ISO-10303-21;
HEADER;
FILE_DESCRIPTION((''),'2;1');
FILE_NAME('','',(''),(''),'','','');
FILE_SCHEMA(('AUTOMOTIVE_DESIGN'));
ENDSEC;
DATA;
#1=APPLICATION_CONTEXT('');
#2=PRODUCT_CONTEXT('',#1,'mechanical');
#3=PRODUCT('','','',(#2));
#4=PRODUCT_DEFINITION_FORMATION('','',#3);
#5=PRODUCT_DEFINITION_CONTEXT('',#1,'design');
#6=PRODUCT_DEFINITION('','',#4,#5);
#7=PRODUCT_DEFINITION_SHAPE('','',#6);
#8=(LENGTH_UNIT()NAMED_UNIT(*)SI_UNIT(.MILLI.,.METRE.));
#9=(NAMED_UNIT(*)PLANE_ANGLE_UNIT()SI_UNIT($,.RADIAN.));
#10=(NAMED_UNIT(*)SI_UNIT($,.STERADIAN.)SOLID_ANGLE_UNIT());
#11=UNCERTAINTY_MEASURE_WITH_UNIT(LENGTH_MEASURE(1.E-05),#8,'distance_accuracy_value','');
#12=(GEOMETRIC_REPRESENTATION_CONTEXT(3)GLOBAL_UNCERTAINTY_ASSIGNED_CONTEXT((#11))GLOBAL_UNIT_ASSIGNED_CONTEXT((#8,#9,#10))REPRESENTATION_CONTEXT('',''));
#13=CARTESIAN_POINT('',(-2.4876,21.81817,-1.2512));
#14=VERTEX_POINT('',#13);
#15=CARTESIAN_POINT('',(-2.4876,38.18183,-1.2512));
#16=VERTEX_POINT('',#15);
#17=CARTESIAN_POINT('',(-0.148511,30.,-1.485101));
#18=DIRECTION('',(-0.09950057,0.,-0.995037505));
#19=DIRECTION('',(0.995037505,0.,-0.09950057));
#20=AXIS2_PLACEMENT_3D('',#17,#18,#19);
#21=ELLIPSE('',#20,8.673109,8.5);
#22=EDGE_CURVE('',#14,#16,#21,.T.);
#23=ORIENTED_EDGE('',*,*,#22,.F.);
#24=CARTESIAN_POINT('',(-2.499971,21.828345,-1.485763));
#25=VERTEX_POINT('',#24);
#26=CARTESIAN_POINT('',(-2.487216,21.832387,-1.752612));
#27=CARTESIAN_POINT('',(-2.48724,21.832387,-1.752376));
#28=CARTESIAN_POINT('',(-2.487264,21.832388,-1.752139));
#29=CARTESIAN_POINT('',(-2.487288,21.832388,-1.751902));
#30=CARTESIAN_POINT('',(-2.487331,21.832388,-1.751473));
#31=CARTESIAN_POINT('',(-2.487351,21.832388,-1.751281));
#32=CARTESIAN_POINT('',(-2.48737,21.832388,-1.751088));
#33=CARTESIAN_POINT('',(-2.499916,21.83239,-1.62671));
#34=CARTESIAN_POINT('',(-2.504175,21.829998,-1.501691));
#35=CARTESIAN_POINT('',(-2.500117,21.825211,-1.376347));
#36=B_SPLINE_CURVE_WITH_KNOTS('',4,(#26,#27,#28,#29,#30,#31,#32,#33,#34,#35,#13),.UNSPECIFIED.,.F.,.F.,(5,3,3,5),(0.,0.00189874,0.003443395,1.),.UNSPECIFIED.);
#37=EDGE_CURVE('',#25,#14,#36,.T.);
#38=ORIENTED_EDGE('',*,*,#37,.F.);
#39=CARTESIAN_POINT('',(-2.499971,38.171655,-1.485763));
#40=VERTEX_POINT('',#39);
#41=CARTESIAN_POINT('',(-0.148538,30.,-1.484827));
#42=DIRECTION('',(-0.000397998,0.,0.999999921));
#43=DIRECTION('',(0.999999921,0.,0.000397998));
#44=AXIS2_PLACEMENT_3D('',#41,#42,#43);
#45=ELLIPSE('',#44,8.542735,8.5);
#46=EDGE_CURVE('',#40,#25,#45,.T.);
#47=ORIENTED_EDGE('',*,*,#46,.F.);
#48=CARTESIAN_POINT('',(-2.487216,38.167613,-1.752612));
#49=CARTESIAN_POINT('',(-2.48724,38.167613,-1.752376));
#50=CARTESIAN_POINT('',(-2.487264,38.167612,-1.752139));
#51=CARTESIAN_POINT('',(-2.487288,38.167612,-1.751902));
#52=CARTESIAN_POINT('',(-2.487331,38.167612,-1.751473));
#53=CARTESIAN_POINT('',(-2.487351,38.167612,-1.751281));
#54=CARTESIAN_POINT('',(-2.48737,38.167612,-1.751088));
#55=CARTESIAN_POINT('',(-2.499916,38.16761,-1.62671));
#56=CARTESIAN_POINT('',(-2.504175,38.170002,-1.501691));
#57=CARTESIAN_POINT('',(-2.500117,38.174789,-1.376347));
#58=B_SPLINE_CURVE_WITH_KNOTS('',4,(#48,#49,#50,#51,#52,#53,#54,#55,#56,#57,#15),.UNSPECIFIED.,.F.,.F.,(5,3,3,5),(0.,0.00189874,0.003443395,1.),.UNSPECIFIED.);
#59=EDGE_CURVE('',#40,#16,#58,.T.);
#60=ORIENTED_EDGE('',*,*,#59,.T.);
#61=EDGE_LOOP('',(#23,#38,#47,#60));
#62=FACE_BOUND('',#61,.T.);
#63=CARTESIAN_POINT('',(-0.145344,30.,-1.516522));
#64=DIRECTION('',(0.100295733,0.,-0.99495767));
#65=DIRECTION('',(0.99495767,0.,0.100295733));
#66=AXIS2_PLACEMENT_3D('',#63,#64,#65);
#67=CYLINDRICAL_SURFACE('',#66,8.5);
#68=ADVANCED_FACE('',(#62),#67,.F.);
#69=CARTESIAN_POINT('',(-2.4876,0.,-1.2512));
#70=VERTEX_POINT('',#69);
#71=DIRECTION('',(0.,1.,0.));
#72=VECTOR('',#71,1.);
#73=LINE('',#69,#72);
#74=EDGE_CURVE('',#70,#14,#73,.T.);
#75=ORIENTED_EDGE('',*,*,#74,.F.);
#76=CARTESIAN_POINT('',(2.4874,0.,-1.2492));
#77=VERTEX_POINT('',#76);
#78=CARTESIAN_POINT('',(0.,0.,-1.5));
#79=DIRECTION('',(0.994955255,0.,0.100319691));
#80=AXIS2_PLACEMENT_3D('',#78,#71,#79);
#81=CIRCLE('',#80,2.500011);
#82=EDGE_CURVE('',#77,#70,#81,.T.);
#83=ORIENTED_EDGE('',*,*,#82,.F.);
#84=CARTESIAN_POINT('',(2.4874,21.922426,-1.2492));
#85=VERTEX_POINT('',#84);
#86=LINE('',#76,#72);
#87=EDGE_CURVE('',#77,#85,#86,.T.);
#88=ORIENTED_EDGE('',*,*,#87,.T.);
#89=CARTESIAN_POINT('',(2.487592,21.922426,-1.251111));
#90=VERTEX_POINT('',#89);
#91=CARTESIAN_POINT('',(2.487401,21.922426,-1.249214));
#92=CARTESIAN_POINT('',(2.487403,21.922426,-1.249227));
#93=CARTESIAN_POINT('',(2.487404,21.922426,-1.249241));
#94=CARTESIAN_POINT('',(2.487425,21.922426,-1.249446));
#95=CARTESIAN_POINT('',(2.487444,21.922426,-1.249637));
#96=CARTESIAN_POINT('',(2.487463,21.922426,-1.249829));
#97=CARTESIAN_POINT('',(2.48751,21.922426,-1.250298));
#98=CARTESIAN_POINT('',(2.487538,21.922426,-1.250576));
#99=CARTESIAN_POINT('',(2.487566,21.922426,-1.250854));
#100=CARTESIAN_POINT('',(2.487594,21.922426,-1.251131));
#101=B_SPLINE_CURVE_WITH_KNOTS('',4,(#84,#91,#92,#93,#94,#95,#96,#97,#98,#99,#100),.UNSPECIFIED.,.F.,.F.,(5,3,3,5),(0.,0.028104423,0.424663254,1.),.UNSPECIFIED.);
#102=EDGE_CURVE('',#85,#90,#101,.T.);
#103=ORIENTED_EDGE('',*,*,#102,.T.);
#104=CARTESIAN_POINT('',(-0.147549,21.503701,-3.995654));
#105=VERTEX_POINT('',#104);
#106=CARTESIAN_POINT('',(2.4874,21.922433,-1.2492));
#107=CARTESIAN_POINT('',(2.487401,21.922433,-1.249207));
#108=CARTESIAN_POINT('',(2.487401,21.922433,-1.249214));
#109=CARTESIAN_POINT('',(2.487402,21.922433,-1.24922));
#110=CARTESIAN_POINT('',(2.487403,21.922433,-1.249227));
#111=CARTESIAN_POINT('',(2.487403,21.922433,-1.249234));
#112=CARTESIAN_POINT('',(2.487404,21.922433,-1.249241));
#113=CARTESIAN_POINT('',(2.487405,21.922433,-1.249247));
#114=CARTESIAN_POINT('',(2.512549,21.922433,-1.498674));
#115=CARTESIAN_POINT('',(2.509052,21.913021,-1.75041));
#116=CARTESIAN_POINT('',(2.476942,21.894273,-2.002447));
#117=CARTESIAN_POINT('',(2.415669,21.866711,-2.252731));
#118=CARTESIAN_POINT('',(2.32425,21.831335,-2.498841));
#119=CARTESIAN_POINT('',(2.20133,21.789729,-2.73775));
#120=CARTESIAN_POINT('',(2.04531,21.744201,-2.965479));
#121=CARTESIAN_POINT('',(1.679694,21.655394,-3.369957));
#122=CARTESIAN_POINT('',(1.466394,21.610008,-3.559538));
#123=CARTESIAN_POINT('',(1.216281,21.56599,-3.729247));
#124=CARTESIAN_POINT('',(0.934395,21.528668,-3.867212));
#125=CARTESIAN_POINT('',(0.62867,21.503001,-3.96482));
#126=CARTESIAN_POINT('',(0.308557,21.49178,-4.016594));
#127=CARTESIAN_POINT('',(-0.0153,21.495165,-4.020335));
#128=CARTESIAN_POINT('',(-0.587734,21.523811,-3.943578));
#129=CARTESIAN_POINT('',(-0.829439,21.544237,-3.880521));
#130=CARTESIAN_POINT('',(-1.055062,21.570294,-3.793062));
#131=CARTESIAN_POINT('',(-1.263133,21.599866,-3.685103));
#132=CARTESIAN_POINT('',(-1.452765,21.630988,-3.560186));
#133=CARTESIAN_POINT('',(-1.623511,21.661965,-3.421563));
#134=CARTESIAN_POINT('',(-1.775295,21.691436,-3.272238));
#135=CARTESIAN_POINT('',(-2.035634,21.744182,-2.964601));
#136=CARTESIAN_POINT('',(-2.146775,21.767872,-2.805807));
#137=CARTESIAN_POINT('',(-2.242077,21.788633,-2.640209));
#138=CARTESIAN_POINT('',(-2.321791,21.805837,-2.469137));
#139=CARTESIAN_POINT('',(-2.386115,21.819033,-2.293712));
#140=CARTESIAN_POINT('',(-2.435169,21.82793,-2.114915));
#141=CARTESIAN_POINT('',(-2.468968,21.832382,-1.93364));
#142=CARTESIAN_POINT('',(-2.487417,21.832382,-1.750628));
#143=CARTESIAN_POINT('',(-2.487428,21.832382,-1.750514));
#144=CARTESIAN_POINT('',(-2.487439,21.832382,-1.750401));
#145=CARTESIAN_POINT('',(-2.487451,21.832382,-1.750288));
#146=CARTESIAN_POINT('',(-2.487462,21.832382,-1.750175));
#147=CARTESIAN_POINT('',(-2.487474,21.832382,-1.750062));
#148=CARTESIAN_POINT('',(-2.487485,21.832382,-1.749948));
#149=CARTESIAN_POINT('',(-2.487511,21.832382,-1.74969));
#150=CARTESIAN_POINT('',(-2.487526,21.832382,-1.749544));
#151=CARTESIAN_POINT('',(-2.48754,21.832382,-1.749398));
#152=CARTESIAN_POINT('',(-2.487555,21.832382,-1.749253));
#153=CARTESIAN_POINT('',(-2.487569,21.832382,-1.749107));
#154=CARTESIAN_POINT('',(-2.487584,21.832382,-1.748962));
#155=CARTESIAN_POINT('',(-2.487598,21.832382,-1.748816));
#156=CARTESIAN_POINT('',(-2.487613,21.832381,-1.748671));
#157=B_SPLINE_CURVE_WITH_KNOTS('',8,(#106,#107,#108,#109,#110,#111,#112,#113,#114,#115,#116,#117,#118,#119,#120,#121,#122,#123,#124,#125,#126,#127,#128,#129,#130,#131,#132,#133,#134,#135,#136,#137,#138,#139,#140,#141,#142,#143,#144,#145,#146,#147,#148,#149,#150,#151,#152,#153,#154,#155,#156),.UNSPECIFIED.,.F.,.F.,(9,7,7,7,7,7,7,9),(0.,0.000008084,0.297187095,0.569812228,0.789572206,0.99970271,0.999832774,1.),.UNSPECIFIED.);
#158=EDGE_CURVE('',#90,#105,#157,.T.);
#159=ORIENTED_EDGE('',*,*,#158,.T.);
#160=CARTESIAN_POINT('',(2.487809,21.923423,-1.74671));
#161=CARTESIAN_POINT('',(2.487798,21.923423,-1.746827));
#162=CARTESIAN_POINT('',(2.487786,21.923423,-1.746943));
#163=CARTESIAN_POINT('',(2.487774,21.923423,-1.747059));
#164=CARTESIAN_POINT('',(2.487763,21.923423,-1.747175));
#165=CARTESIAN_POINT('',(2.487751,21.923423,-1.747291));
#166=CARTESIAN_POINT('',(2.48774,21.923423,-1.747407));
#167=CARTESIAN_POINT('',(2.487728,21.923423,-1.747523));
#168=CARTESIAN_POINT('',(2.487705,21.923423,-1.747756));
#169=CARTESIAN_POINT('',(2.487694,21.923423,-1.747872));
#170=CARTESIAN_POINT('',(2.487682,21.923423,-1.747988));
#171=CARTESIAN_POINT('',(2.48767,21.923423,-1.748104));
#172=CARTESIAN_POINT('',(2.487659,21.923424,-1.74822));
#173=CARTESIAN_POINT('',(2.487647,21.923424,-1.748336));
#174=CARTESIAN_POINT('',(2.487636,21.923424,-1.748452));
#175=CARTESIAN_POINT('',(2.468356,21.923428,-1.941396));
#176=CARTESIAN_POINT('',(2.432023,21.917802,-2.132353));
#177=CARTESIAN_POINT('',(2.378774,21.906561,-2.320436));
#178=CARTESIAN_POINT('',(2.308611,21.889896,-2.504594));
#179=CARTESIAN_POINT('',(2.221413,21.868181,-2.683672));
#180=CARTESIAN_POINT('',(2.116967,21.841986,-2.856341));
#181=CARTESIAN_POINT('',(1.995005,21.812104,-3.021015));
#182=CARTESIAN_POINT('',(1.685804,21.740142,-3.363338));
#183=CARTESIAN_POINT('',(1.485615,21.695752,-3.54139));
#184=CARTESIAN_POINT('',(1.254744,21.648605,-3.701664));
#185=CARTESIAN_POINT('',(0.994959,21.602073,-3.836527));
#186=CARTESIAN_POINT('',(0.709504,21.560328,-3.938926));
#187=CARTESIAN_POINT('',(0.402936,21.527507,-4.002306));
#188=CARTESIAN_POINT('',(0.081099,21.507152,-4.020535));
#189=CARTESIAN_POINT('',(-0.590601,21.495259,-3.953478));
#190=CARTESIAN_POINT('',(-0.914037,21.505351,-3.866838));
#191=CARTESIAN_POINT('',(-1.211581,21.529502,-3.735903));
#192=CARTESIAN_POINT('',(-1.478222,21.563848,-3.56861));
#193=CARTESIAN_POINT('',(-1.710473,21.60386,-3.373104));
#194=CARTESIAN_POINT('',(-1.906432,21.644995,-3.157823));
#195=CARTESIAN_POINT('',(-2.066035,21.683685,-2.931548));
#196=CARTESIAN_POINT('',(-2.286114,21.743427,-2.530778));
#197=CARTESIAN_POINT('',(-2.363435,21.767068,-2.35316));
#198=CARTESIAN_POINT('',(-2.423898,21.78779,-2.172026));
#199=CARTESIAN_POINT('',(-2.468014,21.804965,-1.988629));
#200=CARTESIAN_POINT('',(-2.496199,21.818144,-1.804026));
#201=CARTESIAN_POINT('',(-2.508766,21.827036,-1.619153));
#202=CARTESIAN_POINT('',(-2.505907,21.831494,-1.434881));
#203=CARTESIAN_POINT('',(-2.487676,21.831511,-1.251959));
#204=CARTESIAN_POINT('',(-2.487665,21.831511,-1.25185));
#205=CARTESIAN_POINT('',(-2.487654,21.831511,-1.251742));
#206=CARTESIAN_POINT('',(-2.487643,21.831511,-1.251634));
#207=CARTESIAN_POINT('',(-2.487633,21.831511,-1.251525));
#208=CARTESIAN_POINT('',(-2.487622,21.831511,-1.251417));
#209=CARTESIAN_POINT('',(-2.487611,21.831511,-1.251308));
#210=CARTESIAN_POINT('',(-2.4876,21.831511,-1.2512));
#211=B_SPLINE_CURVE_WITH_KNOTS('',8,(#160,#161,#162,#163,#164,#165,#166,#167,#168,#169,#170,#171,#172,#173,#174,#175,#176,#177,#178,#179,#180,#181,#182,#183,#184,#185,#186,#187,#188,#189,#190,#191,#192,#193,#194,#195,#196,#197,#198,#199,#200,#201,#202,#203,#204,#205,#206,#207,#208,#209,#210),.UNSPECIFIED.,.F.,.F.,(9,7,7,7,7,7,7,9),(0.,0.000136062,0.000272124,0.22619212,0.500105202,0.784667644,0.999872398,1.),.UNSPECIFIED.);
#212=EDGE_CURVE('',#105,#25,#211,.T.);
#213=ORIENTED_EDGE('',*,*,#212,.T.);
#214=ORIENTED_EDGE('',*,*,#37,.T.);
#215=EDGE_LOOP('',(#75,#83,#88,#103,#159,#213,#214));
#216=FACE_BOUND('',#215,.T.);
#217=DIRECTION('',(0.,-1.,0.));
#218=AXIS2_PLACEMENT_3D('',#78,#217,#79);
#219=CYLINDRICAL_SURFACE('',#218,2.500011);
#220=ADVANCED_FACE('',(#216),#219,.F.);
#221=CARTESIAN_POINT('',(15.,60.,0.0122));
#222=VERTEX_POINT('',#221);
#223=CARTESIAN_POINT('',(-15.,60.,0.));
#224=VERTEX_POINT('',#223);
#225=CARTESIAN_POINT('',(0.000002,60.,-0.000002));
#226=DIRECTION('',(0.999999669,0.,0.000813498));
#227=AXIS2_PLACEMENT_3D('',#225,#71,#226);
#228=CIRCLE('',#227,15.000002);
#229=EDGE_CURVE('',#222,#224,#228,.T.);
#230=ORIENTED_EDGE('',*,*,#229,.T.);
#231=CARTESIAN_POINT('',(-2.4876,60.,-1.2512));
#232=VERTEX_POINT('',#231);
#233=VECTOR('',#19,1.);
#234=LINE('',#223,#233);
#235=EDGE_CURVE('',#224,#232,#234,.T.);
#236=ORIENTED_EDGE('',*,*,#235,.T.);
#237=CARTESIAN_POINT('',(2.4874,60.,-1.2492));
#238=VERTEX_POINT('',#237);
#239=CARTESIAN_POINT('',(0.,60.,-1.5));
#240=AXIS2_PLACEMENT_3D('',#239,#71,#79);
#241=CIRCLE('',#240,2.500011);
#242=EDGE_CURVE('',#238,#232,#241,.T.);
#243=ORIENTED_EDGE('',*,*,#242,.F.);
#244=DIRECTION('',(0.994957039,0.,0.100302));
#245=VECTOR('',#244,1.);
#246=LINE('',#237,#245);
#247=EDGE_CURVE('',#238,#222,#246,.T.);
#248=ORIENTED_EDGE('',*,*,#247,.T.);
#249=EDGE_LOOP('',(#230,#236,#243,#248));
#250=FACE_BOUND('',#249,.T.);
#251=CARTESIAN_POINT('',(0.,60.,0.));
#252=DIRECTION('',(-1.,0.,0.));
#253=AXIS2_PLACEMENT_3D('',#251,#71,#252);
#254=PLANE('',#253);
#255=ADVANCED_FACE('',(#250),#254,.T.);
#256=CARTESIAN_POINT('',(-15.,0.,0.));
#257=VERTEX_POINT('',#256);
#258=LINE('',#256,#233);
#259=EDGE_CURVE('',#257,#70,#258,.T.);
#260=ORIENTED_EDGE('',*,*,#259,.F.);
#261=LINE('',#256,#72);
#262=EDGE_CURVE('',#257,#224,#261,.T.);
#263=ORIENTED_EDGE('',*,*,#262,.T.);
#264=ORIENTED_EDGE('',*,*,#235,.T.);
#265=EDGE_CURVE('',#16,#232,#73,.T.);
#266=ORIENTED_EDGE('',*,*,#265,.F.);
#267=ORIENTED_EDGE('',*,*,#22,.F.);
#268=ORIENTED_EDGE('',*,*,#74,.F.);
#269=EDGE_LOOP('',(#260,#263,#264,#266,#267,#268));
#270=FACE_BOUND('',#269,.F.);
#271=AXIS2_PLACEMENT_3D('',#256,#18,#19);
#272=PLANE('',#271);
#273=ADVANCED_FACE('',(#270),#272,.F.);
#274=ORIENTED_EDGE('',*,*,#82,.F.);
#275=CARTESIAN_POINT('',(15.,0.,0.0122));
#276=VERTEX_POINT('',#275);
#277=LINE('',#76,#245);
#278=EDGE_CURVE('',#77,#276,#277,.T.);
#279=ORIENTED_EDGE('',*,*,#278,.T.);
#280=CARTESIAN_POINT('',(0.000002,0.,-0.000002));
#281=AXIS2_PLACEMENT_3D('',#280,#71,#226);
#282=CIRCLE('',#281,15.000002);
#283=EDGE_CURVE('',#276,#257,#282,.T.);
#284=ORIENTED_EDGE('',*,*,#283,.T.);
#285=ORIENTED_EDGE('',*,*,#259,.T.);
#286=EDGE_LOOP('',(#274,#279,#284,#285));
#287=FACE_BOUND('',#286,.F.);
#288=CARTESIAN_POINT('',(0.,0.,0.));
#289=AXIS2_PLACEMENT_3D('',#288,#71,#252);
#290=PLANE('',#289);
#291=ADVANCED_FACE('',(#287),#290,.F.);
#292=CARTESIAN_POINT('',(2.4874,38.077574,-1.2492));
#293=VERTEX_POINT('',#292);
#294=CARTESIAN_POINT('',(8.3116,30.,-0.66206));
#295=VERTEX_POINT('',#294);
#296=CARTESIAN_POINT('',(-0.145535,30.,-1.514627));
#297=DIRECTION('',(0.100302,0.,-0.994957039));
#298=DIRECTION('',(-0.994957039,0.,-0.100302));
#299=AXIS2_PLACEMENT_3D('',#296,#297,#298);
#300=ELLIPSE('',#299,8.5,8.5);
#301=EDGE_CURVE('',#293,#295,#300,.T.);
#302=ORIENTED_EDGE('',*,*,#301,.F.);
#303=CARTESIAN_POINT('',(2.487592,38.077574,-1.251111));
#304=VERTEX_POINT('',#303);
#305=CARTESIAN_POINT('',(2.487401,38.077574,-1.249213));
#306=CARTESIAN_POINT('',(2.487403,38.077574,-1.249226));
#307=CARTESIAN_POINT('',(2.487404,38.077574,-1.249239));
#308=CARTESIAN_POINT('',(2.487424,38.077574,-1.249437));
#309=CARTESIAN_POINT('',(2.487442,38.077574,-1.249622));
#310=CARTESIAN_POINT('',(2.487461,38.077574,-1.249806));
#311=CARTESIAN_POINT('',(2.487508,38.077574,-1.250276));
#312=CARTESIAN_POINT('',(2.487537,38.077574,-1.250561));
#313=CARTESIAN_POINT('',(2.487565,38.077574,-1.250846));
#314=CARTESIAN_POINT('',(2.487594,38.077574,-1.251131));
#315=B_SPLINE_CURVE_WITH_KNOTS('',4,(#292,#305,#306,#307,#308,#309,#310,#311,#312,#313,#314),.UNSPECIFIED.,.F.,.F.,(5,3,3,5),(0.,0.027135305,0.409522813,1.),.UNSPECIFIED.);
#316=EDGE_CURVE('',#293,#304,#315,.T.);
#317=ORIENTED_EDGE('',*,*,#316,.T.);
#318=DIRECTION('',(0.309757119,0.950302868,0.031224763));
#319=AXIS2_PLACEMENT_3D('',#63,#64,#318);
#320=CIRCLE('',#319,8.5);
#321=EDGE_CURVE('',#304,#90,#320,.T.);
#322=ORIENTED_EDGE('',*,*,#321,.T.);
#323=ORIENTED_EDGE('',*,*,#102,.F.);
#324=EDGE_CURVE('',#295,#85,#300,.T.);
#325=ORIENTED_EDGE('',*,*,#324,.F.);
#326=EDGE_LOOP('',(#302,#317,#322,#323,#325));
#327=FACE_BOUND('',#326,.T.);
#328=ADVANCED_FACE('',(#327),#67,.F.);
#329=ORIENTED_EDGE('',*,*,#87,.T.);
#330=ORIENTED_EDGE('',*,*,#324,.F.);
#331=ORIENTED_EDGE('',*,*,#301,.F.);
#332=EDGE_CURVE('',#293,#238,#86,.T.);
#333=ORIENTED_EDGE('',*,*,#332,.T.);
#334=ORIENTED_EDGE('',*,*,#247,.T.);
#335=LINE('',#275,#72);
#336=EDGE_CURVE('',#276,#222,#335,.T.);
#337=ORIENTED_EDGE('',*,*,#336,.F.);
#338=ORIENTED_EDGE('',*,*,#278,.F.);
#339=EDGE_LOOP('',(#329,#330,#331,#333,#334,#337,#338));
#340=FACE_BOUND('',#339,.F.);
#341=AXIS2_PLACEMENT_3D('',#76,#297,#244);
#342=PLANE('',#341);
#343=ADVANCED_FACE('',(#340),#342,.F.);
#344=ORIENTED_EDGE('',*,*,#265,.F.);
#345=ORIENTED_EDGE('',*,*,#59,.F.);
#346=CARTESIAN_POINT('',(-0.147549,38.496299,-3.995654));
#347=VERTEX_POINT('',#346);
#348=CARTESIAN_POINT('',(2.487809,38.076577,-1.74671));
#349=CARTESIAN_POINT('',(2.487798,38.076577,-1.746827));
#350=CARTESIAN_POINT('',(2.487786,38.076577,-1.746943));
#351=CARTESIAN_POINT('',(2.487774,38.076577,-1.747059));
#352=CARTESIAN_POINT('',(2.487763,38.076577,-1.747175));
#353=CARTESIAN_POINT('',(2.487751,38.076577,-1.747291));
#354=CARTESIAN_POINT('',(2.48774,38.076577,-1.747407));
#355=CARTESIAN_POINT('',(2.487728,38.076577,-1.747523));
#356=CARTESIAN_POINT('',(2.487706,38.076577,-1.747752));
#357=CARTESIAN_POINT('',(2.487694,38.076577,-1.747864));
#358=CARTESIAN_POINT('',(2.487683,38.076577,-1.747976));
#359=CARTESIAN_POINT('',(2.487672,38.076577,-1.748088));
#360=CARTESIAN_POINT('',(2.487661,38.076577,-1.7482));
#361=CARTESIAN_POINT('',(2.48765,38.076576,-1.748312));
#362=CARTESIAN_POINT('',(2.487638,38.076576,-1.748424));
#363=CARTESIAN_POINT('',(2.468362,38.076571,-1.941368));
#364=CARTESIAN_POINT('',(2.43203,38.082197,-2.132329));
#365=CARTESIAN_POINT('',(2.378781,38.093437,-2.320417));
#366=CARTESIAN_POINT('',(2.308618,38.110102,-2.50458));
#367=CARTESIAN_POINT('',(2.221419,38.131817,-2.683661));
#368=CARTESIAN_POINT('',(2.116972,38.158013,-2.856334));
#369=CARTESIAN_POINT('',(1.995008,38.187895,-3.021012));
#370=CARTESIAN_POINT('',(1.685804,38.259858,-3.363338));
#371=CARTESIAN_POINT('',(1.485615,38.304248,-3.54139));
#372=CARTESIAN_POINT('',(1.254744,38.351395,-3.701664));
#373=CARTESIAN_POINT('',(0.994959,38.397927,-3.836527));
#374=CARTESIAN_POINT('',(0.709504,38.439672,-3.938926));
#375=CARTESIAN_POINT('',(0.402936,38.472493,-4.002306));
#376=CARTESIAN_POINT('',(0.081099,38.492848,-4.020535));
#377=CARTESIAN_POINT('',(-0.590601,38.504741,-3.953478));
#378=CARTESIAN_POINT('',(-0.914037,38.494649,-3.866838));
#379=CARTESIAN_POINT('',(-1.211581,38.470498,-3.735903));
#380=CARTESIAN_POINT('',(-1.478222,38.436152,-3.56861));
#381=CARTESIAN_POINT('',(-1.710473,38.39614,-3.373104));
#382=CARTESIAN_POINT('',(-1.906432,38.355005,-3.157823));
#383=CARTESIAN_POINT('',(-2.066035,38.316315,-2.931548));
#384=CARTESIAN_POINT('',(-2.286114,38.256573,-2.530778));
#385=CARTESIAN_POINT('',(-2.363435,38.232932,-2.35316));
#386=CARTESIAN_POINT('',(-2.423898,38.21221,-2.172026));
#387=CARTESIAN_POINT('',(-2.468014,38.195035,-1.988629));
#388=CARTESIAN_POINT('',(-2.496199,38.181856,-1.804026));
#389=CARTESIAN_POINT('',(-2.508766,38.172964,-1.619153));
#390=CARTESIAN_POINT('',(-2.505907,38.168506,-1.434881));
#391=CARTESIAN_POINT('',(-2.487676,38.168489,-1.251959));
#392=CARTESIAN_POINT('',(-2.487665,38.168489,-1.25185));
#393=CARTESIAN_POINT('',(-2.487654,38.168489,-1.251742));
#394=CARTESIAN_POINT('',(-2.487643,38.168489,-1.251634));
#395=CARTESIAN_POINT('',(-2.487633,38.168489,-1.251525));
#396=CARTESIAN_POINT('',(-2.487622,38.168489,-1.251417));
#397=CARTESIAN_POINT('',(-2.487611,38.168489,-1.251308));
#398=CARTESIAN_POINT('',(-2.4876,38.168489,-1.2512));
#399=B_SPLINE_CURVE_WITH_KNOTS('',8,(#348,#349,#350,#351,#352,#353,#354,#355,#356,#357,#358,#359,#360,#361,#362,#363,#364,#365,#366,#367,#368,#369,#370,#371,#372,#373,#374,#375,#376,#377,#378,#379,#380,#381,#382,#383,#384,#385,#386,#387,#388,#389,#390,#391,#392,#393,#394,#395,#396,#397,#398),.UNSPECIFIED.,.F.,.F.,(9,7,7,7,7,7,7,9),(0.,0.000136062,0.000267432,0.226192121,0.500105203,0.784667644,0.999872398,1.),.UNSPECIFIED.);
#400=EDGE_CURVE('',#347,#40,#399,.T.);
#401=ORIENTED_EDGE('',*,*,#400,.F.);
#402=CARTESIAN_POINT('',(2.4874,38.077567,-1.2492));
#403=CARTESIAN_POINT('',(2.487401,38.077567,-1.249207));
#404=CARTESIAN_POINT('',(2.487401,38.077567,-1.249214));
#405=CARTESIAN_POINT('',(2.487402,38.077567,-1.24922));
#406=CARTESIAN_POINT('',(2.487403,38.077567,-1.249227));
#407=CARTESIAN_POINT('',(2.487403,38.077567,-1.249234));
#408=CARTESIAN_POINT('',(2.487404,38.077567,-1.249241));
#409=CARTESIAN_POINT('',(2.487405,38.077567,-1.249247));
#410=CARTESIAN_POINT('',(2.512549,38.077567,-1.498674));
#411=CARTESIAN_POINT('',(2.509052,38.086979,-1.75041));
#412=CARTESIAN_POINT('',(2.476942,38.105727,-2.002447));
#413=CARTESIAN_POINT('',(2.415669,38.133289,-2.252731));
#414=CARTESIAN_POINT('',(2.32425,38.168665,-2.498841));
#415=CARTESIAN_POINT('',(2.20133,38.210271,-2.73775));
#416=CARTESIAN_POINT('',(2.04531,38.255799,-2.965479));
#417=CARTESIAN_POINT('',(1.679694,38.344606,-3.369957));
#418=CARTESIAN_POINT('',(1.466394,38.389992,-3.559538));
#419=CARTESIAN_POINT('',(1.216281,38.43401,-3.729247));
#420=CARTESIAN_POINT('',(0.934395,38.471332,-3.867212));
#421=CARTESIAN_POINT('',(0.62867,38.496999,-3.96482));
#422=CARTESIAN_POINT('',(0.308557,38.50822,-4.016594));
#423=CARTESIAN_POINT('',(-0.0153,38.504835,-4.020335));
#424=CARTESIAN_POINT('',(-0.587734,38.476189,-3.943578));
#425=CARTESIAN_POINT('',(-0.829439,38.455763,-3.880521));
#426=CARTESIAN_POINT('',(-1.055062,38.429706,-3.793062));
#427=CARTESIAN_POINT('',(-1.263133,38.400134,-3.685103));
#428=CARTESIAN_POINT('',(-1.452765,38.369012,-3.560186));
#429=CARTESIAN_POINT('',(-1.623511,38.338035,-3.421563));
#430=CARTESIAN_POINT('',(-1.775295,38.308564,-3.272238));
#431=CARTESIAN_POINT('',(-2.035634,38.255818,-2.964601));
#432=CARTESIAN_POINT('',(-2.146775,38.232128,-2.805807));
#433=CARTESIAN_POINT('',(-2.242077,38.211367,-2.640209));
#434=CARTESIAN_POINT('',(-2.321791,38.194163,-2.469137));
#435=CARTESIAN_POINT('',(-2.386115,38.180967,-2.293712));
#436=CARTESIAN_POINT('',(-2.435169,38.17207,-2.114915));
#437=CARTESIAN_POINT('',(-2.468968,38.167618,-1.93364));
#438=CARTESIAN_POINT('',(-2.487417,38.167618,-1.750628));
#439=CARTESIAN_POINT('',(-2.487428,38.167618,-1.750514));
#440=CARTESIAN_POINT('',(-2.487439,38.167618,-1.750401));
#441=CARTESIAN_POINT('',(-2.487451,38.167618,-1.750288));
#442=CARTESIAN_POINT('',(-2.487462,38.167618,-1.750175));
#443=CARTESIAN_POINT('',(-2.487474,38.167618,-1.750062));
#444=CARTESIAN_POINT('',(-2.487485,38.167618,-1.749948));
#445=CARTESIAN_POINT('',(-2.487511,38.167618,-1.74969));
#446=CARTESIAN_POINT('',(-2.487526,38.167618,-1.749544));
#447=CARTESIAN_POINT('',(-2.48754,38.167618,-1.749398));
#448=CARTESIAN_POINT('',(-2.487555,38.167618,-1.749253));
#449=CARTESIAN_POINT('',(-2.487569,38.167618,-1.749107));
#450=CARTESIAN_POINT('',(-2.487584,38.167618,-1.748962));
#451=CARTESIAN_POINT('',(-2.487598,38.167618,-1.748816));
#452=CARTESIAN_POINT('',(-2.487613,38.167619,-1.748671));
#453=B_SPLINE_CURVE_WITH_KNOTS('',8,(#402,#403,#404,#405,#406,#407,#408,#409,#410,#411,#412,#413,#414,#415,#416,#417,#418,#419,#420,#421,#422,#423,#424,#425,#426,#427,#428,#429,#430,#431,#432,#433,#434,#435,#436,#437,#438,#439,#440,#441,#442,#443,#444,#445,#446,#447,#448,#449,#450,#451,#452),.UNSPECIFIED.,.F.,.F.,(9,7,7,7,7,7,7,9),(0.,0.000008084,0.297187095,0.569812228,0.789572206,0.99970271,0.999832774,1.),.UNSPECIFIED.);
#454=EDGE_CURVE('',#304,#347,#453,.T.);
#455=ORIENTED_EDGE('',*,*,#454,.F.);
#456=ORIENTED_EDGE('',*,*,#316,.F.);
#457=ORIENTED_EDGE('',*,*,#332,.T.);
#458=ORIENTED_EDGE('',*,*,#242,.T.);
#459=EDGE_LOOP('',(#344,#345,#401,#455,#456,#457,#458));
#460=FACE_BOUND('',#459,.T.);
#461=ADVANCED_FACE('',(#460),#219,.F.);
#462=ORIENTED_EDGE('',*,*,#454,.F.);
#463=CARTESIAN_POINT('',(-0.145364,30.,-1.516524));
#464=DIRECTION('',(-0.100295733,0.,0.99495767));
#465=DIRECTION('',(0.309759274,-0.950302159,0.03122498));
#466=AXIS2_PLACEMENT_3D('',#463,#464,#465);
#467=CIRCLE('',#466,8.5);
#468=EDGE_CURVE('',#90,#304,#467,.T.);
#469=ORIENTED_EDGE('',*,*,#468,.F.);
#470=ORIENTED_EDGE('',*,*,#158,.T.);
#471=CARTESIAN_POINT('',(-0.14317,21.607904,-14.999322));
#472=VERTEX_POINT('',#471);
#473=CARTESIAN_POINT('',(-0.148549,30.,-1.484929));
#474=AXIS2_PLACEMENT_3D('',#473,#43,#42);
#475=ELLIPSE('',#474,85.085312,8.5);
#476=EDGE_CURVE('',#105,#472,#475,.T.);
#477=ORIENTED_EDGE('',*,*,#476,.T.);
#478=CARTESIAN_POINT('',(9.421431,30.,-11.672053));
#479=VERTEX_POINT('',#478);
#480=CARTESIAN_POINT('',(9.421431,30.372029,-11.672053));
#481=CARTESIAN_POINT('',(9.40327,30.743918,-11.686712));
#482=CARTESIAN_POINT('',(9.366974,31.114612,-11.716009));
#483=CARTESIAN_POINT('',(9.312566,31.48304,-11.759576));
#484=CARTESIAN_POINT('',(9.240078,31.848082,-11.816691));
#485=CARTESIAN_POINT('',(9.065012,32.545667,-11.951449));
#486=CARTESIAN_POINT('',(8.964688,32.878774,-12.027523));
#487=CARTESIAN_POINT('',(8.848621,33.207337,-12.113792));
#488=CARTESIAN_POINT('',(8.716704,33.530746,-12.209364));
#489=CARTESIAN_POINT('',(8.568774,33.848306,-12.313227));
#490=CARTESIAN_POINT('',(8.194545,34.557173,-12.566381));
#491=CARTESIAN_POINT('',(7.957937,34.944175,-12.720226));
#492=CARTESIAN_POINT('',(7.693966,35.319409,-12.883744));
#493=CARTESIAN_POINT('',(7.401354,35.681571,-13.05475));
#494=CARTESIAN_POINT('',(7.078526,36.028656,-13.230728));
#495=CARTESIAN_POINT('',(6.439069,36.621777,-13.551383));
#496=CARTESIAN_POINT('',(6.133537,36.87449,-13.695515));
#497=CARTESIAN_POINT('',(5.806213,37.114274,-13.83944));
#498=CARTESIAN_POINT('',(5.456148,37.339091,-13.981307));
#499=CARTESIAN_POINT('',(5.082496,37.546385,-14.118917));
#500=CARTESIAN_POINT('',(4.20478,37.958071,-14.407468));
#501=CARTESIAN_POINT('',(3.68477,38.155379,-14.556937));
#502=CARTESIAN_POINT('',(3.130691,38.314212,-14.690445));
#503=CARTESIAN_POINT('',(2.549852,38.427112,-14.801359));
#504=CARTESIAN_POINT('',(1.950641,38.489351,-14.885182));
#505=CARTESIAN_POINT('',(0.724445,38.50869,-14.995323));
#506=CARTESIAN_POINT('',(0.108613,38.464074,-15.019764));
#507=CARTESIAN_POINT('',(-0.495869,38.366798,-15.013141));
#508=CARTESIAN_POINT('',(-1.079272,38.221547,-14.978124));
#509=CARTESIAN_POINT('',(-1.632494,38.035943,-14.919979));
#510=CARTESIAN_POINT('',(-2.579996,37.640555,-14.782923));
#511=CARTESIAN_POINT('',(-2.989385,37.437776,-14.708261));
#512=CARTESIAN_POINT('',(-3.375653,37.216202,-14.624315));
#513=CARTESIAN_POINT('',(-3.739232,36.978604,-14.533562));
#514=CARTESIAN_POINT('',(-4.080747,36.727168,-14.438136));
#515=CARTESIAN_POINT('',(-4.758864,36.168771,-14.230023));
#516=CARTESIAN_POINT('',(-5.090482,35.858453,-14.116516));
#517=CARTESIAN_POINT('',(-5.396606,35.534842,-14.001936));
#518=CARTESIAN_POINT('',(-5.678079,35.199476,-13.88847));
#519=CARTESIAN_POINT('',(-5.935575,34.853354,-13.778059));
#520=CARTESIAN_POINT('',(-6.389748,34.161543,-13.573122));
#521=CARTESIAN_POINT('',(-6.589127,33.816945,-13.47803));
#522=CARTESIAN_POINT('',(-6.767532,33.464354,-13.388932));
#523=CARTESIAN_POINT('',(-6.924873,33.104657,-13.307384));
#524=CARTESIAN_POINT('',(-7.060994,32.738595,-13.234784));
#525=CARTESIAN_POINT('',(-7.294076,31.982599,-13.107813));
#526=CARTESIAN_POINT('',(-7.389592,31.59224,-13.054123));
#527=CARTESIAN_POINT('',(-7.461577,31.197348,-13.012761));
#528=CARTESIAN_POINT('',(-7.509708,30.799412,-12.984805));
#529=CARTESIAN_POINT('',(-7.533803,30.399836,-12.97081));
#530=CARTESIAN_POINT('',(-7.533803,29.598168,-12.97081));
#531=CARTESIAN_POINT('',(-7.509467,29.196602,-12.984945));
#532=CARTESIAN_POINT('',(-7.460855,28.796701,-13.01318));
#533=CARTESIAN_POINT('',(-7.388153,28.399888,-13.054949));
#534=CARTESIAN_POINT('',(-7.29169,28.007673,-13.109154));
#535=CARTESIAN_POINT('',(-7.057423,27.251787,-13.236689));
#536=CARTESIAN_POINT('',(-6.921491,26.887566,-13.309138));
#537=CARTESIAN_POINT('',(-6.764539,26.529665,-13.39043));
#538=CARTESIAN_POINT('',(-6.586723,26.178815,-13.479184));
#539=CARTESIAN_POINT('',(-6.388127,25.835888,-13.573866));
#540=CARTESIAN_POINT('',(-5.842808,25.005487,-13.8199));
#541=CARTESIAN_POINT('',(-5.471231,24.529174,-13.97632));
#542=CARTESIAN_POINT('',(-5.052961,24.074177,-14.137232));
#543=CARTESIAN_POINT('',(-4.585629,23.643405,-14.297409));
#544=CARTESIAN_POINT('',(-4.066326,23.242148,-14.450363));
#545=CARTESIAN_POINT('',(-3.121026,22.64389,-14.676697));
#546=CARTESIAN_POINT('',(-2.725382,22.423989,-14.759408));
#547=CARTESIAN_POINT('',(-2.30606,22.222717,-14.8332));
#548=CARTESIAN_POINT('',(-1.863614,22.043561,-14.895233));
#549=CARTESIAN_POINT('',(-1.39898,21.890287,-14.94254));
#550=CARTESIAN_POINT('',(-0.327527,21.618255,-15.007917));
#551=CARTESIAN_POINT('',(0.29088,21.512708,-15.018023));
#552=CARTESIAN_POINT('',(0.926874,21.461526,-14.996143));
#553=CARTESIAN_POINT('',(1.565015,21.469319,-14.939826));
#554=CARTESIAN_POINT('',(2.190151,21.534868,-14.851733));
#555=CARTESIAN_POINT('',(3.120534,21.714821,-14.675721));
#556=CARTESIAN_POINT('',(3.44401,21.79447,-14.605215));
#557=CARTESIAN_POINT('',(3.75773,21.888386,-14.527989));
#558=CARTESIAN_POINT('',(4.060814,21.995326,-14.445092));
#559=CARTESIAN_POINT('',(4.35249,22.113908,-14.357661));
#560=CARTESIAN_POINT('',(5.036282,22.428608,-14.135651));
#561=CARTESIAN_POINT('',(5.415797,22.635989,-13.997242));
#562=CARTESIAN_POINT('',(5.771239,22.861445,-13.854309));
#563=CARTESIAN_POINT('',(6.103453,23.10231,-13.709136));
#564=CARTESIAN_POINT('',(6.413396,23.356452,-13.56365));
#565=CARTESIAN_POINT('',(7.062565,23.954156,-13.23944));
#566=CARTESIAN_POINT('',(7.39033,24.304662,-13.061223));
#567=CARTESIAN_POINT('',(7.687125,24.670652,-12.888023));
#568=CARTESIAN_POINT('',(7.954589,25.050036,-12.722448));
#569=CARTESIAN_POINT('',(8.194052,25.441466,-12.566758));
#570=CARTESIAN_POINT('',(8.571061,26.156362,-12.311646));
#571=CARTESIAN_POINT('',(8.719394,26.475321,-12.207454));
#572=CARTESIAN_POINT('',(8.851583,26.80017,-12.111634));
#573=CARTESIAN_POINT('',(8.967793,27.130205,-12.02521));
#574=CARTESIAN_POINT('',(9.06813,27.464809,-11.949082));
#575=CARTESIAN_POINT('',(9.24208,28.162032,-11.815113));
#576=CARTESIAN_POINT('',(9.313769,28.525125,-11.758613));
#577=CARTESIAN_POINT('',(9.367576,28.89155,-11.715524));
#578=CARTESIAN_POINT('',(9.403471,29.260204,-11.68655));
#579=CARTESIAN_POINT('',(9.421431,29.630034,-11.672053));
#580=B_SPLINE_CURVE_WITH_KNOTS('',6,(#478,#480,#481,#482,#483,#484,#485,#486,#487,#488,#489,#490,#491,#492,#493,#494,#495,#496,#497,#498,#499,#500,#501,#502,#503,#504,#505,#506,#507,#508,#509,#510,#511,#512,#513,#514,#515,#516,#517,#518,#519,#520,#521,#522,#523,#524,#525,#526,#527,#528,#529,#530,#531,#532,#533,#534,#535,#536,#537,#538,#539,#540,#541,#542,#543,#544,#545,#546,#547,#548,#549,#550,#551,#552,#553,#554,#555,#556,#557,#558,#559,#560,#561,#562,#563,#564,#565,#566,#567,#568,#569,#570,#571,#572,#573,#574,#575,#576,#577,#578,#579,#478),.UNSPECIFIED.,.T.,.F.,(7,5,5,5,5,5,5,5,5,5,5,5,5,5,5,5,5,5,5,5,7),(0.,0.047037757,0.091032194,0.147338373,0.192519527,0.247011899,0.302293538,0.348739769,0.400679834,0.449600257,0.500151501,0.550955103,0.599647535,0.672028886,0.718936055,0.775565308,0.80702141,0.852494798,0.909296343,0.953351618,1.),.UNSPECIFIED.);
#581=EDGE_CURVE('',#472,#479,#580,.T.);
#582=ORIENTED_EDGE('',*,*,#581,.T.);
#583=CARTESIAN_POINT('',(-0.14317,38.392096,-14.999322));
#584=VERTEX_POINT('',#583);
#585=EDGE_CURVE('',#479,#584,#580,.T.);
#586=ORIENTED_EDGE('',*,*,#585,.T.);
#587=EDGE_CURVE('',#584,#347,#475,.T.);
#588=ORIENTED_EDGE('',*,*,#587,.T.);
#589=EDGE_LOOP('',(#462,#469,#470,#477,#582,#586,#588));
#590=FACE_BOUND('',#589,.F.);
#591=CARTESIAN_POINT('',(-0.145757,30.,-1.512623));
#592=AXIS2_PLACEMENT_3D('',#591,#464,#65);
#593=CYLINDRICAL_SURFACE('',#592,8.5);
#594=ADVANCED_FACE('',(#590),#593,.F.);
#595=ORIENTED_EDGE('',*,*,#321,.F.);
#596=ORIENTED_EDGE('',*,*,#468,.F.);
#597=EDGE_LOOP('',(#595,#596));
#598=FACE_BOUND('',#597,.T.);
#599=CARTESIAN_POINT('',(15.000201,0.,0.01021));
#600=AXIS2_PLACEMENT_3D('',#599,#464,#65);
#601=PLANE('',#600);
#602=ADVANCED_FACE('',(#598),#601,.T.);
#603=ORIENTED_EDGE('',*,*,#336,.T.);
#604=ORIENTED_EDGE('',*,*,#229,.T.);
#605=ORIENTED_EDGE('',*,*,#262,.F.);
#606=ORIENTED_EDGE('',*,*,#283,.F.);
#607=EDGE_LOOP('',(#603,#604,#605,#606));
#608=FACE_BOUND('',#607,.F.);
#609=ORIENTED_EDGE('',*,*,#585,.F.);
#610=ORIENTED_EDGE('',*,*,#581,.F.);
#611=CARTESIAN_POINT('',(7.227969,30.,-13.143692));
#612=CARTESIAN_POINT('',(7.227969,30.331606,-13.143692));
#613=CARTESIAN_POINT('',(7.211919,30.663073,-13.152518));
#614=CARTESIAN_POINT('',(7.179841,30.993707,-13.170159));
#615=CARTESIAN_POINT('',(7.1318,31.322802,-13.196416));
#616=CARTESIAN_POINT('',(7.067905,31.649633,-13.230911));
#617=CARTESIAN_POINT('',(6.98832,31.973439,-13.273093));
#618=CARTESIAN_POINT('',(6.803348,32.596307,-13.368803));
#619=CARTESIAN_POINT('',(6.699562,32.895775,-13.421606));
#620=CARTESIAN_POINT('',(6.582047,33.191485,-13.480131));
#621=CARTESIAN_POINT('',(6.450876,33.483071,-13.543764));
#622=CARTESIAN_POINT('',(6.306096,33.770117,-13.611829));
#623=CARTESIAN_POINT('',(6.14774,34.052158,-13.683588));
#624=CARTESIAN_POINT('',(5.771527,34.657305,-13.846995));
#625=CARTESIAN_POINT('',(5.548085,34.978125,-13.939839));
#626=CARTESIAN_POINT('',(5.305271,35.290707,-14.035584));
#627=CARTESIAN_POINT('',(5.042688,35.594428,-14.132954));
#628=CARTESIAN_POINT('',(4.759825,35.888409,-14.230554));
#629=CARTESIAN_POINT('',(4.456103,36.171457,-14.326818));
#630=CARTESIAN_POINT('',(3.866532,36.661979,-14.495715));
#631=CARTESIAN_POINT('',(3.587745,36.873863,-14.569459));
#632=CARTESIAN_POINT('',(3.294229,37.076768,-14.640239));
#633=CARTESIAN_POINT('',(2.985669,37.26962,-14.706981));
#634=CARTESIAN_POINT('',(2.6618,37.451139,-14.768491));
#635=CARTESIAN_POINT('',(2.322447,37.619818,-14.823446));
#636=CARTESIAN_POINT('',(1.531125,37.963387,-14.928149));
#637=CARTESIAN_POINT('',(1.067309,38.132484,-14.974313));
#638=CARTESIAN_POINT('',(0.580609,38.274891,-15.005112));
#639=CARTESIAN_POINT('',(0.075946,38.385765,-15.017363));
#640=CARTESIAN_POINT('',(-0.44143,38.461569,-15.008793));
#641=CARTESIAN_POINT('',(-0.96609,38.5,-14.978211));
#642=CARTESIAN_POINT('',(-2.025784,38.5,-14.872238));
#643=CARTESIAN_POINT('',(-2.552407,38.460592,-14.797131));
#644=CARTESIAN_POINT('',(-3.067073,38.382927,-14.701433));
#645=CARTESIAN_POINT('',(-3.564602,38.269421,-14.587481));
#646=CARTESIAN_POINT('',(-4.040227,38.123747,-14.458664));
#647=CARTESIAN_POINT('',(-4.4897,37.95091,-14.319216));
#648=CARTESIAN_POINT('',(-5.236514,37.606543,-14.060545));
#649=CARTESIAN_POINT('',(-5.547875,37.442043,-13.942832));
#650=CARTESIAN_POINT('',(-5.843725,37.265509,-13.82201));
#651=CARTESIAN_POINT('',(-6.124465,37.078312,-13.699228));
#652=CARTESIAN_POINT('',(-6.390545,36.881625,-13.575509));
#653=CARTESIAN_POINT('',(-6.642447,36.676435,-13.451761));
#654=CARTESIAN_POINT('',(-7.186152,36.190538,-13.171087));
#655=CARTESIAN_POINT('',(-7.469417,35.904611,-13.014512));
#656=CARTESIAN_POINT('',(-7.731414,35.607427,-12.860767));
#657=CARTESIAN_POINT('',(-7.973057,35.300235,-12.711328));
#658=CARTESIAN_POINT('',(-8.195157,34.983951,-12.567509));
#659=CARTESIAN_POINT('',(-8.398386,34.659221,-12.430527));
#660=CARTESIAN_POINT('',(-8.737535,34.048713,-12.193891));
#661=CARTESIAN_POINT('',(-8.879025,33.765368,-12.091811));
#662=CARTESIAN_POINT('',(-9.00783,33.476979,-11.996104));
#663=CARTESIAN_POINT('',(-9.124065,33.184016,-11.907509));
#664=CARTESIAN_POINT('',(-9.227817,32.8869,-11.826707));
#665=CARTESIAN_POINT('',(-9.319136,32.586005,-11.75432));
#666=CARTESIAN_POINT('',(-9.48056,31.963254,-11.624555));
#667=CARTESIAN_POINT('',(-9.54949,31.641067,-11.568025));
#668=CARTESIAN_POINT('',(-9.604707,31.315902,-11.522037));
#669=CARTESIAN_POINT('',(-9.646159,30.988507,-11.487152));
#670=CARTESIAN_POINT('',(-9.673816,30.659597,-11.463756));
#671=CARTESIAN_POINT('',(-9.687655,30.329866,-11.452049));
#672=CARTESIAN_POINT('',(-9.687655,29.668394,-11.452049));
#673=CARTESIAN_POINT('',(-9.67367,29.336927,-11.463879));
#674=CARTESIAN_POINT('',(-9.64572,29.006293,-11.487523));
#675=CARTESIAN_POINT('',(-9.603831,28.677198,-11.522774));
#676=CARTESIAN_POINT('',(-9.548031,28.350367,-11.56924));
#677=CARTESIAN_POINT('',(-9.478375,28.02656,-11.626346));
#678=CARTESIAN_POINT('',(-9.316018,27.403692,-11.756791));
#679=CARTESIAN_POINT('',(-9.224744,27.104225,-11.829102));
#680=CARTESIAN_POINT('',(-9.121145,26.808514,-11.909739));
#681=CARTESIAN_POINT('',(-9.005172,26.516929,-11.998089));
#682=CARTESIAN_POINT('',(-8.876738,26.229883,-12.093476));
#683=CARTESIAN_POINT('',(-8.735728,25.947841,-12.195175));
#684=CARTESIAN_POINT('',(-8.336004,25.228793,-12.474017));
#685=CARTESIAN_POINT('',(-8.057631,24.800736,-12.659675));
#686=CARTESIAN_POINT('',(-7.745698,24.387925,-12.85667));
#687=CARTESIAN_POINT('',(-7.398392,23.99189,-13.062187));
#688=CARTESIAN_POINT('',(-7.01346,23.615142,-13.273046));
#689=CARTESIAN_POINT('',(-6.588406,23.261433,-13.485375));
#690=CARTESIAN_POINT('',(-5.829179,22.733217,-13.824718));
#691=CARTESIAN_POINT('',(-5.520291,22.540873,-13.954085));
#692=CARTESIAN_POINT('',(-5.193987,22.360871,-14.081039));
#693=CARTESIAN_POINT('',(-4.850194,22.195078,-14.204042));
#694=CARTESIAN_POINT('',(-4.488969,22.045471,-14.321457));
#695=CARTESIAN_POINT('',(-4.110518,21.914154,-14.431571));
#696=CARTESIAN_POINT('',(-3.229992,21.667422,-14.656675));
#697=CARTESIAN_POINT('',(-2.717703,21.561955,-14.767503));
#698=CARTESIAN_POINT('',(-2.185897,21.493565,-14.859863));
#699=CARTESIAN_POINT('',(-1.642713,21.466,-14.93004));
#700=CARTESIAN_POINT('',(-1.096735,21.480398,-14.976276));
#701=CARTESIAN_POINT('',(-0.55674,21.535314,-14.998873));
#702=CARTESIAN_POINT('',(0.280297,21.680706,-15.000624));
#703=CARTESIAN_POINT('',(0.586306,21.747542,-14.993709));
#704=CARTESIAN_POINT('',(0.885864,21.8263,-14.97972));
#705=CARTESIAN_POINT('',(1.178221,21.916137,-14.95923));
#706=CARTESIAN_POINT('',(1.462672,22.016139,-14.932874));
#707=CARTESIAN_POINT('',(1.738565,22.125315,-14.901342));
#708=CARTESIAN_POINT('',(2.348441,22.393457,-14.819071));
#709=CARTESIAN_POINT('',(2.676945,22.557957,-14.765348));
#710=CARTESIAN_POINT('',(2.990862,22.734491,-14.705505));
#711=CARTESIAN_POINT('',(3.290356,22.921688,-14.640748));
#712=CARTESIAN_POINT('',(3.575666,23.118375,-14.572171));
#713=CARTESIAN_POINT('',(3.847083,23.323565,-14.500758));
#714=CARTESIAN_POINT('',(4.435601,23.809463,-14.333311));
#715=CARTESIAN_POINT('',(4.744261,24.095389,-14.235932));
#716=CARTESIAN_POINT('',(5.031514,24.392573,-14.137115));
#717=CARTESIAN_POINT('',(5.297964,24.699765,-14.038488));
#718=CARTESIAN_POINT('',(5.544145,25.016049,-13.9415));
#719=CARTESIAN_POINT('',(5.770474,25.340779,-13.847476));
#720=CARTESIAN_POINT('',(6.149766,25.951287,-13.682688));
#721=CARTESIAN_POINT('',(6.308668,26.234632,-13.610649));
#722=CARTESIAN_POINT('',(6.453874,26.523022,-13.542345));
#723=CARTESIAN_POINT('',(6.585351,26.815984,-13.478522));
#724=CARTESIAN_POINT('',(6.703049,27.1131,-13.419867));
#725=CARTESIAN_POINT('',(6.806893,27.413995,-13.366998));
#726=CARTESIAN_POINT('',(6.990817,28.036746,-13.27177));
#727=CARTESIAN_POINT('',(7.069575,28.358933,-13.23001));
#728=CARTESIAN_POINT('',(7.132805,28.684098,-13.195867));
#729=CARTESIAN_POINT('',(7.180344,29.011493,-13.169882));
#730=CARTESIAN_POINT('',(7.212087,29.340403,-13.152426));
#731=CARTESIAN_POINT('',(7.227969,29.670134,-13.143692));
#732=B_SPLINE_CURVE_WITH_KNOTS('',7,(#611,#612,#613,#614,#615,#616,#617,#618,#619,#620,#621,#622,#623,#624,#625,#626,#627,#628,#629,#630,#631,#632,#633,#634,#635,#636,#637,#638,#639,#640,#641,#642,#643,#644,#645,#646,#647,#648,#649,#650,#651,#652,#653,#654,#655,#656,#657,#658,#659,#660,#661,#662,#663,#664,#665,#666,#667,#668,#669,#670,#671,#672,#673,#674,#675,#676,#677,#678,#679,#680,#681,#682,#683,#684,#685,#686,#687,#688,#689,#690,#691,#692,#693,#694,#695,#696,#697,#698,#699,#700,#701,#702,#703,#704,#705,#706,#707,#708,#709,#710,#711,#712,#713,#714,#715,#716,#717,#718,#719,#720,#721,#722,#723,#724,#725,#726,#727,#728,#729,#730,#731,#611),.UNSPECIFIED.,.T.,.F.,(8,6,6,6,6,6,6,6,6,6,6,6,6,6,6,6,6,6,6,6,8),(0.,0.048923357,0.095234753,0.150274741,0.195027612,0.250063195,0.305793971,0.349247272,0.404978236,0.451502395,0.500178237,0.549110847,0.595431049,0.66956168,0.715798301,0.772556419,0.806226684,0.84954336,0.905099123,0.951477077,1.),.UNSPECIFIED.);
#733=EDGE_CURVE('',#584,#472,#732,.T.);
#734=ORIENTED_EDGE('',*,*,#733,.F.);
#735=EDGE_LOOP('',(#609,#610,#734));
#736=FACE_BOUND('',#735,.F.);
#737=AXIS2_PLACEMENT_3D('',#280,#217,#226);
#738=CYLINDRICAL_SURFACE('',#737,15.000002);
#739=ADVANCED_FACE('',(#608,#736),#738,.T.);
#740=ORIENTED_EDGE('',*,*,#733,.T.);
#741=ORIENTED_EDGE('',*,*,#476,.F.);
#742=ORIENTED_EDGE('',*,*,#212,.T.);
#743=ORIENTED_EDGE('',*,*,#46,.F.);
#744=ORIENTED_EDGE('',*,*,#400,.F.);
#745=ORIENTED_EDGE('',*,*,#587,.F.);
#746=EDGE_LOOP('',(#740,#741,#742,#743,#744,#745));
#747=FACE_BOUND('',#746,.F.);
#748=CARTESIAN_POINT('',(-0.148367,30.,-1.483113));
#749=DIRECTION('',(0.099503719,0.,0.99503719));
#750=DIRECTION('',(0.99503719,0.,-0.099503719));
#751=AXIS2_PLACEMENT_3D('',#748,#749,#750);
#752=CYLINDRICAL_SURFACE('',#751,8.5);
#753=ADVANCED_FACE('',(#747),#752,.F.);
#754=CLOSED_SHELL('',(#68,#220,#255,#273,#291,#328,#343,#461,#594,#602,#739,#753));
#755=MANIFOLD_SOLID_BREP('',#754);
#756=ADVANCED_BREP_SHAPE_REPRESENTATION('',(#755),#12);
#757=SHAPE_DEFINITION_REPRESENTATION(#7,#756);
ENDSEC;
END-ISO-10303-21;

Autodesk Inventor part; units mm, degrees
ref_plane "YZ Plane" through (0, 0, 0) normal (1, 0, 0) x (0, 1, 0)
ref_plane "XZ Plane" through (0, 0, 0) normal (0, 1, 0) x (-1, 0, 0)
ref_plane "XY Plane" through (0, 0, 0) normal (0, 0, 1) x (1, 0, 0)
sketch "Sketch1" plane through (0, 0, 0) normal (0, 1, 0) x (-1, 0, 0)
  point P0 (0, 0)
sketch "Sketch2" plane through (0, 0, 0) normal (0, 1, 0) x (-1, 0, 0)
  arc A0 (-15, 0.0122) -> (15, 0) centre (0, 0) ccw
  line L0 (15, 0) -> (2.4876, -1.2512)
  line L1 (-2.4874, -1.2492) -> (-15, 0.0122)
  arc A1 (-2.4874, -1.2492) -> (2.4876, -1.2512) centre (0, -1.5) ccw
  dimension "d0" = 1.5
  dimension "d1" = 30
  dimension "d2" = 5
extrude "Extrusion1" add sketch "Sketch2" along normal blind 60
sketch "Sketch3" plane through (-2.4876, 0, -1.2512) normal (0.0995, 0, 0.995) x (0.995, 0, -0.0995)
  circle A0 centre (2.3507, 30) radius 8.5
  line L0 (17.2751, 0) -> (17.2751, 60) projected
  point P0 (2.3507, 0)
  point P1 (17.2751, 30)
  dimension "d5" = 17
extrude "Extrusion2" cut sketch "Sketch3" against normal blind 35
sketch "Sketch4" plane through (15, 0, 0.0122) normal (-0.1003, 0, 0.995) x (0.995, 0, 0.1003)
  ellipse E0 centre (-15.2223, 30) end of major axis (-15.2223, 38.5) minor radius 8.3303 (-12.6259, 21.9234) -> (-12.6259, 38.0766) ccw projected
  circle A0 centre (-15.2223, 30) radius 8.5
  point P0 (-14.9256, 0)
extrude "Extrusion3" cut sketch "Sketch4" along normal blind 35
sketch "Sketch5" plane through (2.4874, 0, -1.2492) normal (-0.1003, 0, 0.995) x (0.995, 0, 0.1003)
  ellipse E0 centre (-2.6463, 30) end of major axis (-2.6463, 38.5) minor radius 8.3303 (-0.0499, 21.9234) -> (-0.0499, 38.0766) ccw projected
  circle A0 centre (-2.6463, 30) radius 8.5
  point P0 (-2.3495, 0)
extrude "Extrusion4" cut sketch "Sketch5" against normal blind 35
sketch "Sketch6" plane through (0, 0, 0) normal (0, -1, 0) x (1, 0, 0)
  point P0 (0, 0)
properties part number "joy part1"
